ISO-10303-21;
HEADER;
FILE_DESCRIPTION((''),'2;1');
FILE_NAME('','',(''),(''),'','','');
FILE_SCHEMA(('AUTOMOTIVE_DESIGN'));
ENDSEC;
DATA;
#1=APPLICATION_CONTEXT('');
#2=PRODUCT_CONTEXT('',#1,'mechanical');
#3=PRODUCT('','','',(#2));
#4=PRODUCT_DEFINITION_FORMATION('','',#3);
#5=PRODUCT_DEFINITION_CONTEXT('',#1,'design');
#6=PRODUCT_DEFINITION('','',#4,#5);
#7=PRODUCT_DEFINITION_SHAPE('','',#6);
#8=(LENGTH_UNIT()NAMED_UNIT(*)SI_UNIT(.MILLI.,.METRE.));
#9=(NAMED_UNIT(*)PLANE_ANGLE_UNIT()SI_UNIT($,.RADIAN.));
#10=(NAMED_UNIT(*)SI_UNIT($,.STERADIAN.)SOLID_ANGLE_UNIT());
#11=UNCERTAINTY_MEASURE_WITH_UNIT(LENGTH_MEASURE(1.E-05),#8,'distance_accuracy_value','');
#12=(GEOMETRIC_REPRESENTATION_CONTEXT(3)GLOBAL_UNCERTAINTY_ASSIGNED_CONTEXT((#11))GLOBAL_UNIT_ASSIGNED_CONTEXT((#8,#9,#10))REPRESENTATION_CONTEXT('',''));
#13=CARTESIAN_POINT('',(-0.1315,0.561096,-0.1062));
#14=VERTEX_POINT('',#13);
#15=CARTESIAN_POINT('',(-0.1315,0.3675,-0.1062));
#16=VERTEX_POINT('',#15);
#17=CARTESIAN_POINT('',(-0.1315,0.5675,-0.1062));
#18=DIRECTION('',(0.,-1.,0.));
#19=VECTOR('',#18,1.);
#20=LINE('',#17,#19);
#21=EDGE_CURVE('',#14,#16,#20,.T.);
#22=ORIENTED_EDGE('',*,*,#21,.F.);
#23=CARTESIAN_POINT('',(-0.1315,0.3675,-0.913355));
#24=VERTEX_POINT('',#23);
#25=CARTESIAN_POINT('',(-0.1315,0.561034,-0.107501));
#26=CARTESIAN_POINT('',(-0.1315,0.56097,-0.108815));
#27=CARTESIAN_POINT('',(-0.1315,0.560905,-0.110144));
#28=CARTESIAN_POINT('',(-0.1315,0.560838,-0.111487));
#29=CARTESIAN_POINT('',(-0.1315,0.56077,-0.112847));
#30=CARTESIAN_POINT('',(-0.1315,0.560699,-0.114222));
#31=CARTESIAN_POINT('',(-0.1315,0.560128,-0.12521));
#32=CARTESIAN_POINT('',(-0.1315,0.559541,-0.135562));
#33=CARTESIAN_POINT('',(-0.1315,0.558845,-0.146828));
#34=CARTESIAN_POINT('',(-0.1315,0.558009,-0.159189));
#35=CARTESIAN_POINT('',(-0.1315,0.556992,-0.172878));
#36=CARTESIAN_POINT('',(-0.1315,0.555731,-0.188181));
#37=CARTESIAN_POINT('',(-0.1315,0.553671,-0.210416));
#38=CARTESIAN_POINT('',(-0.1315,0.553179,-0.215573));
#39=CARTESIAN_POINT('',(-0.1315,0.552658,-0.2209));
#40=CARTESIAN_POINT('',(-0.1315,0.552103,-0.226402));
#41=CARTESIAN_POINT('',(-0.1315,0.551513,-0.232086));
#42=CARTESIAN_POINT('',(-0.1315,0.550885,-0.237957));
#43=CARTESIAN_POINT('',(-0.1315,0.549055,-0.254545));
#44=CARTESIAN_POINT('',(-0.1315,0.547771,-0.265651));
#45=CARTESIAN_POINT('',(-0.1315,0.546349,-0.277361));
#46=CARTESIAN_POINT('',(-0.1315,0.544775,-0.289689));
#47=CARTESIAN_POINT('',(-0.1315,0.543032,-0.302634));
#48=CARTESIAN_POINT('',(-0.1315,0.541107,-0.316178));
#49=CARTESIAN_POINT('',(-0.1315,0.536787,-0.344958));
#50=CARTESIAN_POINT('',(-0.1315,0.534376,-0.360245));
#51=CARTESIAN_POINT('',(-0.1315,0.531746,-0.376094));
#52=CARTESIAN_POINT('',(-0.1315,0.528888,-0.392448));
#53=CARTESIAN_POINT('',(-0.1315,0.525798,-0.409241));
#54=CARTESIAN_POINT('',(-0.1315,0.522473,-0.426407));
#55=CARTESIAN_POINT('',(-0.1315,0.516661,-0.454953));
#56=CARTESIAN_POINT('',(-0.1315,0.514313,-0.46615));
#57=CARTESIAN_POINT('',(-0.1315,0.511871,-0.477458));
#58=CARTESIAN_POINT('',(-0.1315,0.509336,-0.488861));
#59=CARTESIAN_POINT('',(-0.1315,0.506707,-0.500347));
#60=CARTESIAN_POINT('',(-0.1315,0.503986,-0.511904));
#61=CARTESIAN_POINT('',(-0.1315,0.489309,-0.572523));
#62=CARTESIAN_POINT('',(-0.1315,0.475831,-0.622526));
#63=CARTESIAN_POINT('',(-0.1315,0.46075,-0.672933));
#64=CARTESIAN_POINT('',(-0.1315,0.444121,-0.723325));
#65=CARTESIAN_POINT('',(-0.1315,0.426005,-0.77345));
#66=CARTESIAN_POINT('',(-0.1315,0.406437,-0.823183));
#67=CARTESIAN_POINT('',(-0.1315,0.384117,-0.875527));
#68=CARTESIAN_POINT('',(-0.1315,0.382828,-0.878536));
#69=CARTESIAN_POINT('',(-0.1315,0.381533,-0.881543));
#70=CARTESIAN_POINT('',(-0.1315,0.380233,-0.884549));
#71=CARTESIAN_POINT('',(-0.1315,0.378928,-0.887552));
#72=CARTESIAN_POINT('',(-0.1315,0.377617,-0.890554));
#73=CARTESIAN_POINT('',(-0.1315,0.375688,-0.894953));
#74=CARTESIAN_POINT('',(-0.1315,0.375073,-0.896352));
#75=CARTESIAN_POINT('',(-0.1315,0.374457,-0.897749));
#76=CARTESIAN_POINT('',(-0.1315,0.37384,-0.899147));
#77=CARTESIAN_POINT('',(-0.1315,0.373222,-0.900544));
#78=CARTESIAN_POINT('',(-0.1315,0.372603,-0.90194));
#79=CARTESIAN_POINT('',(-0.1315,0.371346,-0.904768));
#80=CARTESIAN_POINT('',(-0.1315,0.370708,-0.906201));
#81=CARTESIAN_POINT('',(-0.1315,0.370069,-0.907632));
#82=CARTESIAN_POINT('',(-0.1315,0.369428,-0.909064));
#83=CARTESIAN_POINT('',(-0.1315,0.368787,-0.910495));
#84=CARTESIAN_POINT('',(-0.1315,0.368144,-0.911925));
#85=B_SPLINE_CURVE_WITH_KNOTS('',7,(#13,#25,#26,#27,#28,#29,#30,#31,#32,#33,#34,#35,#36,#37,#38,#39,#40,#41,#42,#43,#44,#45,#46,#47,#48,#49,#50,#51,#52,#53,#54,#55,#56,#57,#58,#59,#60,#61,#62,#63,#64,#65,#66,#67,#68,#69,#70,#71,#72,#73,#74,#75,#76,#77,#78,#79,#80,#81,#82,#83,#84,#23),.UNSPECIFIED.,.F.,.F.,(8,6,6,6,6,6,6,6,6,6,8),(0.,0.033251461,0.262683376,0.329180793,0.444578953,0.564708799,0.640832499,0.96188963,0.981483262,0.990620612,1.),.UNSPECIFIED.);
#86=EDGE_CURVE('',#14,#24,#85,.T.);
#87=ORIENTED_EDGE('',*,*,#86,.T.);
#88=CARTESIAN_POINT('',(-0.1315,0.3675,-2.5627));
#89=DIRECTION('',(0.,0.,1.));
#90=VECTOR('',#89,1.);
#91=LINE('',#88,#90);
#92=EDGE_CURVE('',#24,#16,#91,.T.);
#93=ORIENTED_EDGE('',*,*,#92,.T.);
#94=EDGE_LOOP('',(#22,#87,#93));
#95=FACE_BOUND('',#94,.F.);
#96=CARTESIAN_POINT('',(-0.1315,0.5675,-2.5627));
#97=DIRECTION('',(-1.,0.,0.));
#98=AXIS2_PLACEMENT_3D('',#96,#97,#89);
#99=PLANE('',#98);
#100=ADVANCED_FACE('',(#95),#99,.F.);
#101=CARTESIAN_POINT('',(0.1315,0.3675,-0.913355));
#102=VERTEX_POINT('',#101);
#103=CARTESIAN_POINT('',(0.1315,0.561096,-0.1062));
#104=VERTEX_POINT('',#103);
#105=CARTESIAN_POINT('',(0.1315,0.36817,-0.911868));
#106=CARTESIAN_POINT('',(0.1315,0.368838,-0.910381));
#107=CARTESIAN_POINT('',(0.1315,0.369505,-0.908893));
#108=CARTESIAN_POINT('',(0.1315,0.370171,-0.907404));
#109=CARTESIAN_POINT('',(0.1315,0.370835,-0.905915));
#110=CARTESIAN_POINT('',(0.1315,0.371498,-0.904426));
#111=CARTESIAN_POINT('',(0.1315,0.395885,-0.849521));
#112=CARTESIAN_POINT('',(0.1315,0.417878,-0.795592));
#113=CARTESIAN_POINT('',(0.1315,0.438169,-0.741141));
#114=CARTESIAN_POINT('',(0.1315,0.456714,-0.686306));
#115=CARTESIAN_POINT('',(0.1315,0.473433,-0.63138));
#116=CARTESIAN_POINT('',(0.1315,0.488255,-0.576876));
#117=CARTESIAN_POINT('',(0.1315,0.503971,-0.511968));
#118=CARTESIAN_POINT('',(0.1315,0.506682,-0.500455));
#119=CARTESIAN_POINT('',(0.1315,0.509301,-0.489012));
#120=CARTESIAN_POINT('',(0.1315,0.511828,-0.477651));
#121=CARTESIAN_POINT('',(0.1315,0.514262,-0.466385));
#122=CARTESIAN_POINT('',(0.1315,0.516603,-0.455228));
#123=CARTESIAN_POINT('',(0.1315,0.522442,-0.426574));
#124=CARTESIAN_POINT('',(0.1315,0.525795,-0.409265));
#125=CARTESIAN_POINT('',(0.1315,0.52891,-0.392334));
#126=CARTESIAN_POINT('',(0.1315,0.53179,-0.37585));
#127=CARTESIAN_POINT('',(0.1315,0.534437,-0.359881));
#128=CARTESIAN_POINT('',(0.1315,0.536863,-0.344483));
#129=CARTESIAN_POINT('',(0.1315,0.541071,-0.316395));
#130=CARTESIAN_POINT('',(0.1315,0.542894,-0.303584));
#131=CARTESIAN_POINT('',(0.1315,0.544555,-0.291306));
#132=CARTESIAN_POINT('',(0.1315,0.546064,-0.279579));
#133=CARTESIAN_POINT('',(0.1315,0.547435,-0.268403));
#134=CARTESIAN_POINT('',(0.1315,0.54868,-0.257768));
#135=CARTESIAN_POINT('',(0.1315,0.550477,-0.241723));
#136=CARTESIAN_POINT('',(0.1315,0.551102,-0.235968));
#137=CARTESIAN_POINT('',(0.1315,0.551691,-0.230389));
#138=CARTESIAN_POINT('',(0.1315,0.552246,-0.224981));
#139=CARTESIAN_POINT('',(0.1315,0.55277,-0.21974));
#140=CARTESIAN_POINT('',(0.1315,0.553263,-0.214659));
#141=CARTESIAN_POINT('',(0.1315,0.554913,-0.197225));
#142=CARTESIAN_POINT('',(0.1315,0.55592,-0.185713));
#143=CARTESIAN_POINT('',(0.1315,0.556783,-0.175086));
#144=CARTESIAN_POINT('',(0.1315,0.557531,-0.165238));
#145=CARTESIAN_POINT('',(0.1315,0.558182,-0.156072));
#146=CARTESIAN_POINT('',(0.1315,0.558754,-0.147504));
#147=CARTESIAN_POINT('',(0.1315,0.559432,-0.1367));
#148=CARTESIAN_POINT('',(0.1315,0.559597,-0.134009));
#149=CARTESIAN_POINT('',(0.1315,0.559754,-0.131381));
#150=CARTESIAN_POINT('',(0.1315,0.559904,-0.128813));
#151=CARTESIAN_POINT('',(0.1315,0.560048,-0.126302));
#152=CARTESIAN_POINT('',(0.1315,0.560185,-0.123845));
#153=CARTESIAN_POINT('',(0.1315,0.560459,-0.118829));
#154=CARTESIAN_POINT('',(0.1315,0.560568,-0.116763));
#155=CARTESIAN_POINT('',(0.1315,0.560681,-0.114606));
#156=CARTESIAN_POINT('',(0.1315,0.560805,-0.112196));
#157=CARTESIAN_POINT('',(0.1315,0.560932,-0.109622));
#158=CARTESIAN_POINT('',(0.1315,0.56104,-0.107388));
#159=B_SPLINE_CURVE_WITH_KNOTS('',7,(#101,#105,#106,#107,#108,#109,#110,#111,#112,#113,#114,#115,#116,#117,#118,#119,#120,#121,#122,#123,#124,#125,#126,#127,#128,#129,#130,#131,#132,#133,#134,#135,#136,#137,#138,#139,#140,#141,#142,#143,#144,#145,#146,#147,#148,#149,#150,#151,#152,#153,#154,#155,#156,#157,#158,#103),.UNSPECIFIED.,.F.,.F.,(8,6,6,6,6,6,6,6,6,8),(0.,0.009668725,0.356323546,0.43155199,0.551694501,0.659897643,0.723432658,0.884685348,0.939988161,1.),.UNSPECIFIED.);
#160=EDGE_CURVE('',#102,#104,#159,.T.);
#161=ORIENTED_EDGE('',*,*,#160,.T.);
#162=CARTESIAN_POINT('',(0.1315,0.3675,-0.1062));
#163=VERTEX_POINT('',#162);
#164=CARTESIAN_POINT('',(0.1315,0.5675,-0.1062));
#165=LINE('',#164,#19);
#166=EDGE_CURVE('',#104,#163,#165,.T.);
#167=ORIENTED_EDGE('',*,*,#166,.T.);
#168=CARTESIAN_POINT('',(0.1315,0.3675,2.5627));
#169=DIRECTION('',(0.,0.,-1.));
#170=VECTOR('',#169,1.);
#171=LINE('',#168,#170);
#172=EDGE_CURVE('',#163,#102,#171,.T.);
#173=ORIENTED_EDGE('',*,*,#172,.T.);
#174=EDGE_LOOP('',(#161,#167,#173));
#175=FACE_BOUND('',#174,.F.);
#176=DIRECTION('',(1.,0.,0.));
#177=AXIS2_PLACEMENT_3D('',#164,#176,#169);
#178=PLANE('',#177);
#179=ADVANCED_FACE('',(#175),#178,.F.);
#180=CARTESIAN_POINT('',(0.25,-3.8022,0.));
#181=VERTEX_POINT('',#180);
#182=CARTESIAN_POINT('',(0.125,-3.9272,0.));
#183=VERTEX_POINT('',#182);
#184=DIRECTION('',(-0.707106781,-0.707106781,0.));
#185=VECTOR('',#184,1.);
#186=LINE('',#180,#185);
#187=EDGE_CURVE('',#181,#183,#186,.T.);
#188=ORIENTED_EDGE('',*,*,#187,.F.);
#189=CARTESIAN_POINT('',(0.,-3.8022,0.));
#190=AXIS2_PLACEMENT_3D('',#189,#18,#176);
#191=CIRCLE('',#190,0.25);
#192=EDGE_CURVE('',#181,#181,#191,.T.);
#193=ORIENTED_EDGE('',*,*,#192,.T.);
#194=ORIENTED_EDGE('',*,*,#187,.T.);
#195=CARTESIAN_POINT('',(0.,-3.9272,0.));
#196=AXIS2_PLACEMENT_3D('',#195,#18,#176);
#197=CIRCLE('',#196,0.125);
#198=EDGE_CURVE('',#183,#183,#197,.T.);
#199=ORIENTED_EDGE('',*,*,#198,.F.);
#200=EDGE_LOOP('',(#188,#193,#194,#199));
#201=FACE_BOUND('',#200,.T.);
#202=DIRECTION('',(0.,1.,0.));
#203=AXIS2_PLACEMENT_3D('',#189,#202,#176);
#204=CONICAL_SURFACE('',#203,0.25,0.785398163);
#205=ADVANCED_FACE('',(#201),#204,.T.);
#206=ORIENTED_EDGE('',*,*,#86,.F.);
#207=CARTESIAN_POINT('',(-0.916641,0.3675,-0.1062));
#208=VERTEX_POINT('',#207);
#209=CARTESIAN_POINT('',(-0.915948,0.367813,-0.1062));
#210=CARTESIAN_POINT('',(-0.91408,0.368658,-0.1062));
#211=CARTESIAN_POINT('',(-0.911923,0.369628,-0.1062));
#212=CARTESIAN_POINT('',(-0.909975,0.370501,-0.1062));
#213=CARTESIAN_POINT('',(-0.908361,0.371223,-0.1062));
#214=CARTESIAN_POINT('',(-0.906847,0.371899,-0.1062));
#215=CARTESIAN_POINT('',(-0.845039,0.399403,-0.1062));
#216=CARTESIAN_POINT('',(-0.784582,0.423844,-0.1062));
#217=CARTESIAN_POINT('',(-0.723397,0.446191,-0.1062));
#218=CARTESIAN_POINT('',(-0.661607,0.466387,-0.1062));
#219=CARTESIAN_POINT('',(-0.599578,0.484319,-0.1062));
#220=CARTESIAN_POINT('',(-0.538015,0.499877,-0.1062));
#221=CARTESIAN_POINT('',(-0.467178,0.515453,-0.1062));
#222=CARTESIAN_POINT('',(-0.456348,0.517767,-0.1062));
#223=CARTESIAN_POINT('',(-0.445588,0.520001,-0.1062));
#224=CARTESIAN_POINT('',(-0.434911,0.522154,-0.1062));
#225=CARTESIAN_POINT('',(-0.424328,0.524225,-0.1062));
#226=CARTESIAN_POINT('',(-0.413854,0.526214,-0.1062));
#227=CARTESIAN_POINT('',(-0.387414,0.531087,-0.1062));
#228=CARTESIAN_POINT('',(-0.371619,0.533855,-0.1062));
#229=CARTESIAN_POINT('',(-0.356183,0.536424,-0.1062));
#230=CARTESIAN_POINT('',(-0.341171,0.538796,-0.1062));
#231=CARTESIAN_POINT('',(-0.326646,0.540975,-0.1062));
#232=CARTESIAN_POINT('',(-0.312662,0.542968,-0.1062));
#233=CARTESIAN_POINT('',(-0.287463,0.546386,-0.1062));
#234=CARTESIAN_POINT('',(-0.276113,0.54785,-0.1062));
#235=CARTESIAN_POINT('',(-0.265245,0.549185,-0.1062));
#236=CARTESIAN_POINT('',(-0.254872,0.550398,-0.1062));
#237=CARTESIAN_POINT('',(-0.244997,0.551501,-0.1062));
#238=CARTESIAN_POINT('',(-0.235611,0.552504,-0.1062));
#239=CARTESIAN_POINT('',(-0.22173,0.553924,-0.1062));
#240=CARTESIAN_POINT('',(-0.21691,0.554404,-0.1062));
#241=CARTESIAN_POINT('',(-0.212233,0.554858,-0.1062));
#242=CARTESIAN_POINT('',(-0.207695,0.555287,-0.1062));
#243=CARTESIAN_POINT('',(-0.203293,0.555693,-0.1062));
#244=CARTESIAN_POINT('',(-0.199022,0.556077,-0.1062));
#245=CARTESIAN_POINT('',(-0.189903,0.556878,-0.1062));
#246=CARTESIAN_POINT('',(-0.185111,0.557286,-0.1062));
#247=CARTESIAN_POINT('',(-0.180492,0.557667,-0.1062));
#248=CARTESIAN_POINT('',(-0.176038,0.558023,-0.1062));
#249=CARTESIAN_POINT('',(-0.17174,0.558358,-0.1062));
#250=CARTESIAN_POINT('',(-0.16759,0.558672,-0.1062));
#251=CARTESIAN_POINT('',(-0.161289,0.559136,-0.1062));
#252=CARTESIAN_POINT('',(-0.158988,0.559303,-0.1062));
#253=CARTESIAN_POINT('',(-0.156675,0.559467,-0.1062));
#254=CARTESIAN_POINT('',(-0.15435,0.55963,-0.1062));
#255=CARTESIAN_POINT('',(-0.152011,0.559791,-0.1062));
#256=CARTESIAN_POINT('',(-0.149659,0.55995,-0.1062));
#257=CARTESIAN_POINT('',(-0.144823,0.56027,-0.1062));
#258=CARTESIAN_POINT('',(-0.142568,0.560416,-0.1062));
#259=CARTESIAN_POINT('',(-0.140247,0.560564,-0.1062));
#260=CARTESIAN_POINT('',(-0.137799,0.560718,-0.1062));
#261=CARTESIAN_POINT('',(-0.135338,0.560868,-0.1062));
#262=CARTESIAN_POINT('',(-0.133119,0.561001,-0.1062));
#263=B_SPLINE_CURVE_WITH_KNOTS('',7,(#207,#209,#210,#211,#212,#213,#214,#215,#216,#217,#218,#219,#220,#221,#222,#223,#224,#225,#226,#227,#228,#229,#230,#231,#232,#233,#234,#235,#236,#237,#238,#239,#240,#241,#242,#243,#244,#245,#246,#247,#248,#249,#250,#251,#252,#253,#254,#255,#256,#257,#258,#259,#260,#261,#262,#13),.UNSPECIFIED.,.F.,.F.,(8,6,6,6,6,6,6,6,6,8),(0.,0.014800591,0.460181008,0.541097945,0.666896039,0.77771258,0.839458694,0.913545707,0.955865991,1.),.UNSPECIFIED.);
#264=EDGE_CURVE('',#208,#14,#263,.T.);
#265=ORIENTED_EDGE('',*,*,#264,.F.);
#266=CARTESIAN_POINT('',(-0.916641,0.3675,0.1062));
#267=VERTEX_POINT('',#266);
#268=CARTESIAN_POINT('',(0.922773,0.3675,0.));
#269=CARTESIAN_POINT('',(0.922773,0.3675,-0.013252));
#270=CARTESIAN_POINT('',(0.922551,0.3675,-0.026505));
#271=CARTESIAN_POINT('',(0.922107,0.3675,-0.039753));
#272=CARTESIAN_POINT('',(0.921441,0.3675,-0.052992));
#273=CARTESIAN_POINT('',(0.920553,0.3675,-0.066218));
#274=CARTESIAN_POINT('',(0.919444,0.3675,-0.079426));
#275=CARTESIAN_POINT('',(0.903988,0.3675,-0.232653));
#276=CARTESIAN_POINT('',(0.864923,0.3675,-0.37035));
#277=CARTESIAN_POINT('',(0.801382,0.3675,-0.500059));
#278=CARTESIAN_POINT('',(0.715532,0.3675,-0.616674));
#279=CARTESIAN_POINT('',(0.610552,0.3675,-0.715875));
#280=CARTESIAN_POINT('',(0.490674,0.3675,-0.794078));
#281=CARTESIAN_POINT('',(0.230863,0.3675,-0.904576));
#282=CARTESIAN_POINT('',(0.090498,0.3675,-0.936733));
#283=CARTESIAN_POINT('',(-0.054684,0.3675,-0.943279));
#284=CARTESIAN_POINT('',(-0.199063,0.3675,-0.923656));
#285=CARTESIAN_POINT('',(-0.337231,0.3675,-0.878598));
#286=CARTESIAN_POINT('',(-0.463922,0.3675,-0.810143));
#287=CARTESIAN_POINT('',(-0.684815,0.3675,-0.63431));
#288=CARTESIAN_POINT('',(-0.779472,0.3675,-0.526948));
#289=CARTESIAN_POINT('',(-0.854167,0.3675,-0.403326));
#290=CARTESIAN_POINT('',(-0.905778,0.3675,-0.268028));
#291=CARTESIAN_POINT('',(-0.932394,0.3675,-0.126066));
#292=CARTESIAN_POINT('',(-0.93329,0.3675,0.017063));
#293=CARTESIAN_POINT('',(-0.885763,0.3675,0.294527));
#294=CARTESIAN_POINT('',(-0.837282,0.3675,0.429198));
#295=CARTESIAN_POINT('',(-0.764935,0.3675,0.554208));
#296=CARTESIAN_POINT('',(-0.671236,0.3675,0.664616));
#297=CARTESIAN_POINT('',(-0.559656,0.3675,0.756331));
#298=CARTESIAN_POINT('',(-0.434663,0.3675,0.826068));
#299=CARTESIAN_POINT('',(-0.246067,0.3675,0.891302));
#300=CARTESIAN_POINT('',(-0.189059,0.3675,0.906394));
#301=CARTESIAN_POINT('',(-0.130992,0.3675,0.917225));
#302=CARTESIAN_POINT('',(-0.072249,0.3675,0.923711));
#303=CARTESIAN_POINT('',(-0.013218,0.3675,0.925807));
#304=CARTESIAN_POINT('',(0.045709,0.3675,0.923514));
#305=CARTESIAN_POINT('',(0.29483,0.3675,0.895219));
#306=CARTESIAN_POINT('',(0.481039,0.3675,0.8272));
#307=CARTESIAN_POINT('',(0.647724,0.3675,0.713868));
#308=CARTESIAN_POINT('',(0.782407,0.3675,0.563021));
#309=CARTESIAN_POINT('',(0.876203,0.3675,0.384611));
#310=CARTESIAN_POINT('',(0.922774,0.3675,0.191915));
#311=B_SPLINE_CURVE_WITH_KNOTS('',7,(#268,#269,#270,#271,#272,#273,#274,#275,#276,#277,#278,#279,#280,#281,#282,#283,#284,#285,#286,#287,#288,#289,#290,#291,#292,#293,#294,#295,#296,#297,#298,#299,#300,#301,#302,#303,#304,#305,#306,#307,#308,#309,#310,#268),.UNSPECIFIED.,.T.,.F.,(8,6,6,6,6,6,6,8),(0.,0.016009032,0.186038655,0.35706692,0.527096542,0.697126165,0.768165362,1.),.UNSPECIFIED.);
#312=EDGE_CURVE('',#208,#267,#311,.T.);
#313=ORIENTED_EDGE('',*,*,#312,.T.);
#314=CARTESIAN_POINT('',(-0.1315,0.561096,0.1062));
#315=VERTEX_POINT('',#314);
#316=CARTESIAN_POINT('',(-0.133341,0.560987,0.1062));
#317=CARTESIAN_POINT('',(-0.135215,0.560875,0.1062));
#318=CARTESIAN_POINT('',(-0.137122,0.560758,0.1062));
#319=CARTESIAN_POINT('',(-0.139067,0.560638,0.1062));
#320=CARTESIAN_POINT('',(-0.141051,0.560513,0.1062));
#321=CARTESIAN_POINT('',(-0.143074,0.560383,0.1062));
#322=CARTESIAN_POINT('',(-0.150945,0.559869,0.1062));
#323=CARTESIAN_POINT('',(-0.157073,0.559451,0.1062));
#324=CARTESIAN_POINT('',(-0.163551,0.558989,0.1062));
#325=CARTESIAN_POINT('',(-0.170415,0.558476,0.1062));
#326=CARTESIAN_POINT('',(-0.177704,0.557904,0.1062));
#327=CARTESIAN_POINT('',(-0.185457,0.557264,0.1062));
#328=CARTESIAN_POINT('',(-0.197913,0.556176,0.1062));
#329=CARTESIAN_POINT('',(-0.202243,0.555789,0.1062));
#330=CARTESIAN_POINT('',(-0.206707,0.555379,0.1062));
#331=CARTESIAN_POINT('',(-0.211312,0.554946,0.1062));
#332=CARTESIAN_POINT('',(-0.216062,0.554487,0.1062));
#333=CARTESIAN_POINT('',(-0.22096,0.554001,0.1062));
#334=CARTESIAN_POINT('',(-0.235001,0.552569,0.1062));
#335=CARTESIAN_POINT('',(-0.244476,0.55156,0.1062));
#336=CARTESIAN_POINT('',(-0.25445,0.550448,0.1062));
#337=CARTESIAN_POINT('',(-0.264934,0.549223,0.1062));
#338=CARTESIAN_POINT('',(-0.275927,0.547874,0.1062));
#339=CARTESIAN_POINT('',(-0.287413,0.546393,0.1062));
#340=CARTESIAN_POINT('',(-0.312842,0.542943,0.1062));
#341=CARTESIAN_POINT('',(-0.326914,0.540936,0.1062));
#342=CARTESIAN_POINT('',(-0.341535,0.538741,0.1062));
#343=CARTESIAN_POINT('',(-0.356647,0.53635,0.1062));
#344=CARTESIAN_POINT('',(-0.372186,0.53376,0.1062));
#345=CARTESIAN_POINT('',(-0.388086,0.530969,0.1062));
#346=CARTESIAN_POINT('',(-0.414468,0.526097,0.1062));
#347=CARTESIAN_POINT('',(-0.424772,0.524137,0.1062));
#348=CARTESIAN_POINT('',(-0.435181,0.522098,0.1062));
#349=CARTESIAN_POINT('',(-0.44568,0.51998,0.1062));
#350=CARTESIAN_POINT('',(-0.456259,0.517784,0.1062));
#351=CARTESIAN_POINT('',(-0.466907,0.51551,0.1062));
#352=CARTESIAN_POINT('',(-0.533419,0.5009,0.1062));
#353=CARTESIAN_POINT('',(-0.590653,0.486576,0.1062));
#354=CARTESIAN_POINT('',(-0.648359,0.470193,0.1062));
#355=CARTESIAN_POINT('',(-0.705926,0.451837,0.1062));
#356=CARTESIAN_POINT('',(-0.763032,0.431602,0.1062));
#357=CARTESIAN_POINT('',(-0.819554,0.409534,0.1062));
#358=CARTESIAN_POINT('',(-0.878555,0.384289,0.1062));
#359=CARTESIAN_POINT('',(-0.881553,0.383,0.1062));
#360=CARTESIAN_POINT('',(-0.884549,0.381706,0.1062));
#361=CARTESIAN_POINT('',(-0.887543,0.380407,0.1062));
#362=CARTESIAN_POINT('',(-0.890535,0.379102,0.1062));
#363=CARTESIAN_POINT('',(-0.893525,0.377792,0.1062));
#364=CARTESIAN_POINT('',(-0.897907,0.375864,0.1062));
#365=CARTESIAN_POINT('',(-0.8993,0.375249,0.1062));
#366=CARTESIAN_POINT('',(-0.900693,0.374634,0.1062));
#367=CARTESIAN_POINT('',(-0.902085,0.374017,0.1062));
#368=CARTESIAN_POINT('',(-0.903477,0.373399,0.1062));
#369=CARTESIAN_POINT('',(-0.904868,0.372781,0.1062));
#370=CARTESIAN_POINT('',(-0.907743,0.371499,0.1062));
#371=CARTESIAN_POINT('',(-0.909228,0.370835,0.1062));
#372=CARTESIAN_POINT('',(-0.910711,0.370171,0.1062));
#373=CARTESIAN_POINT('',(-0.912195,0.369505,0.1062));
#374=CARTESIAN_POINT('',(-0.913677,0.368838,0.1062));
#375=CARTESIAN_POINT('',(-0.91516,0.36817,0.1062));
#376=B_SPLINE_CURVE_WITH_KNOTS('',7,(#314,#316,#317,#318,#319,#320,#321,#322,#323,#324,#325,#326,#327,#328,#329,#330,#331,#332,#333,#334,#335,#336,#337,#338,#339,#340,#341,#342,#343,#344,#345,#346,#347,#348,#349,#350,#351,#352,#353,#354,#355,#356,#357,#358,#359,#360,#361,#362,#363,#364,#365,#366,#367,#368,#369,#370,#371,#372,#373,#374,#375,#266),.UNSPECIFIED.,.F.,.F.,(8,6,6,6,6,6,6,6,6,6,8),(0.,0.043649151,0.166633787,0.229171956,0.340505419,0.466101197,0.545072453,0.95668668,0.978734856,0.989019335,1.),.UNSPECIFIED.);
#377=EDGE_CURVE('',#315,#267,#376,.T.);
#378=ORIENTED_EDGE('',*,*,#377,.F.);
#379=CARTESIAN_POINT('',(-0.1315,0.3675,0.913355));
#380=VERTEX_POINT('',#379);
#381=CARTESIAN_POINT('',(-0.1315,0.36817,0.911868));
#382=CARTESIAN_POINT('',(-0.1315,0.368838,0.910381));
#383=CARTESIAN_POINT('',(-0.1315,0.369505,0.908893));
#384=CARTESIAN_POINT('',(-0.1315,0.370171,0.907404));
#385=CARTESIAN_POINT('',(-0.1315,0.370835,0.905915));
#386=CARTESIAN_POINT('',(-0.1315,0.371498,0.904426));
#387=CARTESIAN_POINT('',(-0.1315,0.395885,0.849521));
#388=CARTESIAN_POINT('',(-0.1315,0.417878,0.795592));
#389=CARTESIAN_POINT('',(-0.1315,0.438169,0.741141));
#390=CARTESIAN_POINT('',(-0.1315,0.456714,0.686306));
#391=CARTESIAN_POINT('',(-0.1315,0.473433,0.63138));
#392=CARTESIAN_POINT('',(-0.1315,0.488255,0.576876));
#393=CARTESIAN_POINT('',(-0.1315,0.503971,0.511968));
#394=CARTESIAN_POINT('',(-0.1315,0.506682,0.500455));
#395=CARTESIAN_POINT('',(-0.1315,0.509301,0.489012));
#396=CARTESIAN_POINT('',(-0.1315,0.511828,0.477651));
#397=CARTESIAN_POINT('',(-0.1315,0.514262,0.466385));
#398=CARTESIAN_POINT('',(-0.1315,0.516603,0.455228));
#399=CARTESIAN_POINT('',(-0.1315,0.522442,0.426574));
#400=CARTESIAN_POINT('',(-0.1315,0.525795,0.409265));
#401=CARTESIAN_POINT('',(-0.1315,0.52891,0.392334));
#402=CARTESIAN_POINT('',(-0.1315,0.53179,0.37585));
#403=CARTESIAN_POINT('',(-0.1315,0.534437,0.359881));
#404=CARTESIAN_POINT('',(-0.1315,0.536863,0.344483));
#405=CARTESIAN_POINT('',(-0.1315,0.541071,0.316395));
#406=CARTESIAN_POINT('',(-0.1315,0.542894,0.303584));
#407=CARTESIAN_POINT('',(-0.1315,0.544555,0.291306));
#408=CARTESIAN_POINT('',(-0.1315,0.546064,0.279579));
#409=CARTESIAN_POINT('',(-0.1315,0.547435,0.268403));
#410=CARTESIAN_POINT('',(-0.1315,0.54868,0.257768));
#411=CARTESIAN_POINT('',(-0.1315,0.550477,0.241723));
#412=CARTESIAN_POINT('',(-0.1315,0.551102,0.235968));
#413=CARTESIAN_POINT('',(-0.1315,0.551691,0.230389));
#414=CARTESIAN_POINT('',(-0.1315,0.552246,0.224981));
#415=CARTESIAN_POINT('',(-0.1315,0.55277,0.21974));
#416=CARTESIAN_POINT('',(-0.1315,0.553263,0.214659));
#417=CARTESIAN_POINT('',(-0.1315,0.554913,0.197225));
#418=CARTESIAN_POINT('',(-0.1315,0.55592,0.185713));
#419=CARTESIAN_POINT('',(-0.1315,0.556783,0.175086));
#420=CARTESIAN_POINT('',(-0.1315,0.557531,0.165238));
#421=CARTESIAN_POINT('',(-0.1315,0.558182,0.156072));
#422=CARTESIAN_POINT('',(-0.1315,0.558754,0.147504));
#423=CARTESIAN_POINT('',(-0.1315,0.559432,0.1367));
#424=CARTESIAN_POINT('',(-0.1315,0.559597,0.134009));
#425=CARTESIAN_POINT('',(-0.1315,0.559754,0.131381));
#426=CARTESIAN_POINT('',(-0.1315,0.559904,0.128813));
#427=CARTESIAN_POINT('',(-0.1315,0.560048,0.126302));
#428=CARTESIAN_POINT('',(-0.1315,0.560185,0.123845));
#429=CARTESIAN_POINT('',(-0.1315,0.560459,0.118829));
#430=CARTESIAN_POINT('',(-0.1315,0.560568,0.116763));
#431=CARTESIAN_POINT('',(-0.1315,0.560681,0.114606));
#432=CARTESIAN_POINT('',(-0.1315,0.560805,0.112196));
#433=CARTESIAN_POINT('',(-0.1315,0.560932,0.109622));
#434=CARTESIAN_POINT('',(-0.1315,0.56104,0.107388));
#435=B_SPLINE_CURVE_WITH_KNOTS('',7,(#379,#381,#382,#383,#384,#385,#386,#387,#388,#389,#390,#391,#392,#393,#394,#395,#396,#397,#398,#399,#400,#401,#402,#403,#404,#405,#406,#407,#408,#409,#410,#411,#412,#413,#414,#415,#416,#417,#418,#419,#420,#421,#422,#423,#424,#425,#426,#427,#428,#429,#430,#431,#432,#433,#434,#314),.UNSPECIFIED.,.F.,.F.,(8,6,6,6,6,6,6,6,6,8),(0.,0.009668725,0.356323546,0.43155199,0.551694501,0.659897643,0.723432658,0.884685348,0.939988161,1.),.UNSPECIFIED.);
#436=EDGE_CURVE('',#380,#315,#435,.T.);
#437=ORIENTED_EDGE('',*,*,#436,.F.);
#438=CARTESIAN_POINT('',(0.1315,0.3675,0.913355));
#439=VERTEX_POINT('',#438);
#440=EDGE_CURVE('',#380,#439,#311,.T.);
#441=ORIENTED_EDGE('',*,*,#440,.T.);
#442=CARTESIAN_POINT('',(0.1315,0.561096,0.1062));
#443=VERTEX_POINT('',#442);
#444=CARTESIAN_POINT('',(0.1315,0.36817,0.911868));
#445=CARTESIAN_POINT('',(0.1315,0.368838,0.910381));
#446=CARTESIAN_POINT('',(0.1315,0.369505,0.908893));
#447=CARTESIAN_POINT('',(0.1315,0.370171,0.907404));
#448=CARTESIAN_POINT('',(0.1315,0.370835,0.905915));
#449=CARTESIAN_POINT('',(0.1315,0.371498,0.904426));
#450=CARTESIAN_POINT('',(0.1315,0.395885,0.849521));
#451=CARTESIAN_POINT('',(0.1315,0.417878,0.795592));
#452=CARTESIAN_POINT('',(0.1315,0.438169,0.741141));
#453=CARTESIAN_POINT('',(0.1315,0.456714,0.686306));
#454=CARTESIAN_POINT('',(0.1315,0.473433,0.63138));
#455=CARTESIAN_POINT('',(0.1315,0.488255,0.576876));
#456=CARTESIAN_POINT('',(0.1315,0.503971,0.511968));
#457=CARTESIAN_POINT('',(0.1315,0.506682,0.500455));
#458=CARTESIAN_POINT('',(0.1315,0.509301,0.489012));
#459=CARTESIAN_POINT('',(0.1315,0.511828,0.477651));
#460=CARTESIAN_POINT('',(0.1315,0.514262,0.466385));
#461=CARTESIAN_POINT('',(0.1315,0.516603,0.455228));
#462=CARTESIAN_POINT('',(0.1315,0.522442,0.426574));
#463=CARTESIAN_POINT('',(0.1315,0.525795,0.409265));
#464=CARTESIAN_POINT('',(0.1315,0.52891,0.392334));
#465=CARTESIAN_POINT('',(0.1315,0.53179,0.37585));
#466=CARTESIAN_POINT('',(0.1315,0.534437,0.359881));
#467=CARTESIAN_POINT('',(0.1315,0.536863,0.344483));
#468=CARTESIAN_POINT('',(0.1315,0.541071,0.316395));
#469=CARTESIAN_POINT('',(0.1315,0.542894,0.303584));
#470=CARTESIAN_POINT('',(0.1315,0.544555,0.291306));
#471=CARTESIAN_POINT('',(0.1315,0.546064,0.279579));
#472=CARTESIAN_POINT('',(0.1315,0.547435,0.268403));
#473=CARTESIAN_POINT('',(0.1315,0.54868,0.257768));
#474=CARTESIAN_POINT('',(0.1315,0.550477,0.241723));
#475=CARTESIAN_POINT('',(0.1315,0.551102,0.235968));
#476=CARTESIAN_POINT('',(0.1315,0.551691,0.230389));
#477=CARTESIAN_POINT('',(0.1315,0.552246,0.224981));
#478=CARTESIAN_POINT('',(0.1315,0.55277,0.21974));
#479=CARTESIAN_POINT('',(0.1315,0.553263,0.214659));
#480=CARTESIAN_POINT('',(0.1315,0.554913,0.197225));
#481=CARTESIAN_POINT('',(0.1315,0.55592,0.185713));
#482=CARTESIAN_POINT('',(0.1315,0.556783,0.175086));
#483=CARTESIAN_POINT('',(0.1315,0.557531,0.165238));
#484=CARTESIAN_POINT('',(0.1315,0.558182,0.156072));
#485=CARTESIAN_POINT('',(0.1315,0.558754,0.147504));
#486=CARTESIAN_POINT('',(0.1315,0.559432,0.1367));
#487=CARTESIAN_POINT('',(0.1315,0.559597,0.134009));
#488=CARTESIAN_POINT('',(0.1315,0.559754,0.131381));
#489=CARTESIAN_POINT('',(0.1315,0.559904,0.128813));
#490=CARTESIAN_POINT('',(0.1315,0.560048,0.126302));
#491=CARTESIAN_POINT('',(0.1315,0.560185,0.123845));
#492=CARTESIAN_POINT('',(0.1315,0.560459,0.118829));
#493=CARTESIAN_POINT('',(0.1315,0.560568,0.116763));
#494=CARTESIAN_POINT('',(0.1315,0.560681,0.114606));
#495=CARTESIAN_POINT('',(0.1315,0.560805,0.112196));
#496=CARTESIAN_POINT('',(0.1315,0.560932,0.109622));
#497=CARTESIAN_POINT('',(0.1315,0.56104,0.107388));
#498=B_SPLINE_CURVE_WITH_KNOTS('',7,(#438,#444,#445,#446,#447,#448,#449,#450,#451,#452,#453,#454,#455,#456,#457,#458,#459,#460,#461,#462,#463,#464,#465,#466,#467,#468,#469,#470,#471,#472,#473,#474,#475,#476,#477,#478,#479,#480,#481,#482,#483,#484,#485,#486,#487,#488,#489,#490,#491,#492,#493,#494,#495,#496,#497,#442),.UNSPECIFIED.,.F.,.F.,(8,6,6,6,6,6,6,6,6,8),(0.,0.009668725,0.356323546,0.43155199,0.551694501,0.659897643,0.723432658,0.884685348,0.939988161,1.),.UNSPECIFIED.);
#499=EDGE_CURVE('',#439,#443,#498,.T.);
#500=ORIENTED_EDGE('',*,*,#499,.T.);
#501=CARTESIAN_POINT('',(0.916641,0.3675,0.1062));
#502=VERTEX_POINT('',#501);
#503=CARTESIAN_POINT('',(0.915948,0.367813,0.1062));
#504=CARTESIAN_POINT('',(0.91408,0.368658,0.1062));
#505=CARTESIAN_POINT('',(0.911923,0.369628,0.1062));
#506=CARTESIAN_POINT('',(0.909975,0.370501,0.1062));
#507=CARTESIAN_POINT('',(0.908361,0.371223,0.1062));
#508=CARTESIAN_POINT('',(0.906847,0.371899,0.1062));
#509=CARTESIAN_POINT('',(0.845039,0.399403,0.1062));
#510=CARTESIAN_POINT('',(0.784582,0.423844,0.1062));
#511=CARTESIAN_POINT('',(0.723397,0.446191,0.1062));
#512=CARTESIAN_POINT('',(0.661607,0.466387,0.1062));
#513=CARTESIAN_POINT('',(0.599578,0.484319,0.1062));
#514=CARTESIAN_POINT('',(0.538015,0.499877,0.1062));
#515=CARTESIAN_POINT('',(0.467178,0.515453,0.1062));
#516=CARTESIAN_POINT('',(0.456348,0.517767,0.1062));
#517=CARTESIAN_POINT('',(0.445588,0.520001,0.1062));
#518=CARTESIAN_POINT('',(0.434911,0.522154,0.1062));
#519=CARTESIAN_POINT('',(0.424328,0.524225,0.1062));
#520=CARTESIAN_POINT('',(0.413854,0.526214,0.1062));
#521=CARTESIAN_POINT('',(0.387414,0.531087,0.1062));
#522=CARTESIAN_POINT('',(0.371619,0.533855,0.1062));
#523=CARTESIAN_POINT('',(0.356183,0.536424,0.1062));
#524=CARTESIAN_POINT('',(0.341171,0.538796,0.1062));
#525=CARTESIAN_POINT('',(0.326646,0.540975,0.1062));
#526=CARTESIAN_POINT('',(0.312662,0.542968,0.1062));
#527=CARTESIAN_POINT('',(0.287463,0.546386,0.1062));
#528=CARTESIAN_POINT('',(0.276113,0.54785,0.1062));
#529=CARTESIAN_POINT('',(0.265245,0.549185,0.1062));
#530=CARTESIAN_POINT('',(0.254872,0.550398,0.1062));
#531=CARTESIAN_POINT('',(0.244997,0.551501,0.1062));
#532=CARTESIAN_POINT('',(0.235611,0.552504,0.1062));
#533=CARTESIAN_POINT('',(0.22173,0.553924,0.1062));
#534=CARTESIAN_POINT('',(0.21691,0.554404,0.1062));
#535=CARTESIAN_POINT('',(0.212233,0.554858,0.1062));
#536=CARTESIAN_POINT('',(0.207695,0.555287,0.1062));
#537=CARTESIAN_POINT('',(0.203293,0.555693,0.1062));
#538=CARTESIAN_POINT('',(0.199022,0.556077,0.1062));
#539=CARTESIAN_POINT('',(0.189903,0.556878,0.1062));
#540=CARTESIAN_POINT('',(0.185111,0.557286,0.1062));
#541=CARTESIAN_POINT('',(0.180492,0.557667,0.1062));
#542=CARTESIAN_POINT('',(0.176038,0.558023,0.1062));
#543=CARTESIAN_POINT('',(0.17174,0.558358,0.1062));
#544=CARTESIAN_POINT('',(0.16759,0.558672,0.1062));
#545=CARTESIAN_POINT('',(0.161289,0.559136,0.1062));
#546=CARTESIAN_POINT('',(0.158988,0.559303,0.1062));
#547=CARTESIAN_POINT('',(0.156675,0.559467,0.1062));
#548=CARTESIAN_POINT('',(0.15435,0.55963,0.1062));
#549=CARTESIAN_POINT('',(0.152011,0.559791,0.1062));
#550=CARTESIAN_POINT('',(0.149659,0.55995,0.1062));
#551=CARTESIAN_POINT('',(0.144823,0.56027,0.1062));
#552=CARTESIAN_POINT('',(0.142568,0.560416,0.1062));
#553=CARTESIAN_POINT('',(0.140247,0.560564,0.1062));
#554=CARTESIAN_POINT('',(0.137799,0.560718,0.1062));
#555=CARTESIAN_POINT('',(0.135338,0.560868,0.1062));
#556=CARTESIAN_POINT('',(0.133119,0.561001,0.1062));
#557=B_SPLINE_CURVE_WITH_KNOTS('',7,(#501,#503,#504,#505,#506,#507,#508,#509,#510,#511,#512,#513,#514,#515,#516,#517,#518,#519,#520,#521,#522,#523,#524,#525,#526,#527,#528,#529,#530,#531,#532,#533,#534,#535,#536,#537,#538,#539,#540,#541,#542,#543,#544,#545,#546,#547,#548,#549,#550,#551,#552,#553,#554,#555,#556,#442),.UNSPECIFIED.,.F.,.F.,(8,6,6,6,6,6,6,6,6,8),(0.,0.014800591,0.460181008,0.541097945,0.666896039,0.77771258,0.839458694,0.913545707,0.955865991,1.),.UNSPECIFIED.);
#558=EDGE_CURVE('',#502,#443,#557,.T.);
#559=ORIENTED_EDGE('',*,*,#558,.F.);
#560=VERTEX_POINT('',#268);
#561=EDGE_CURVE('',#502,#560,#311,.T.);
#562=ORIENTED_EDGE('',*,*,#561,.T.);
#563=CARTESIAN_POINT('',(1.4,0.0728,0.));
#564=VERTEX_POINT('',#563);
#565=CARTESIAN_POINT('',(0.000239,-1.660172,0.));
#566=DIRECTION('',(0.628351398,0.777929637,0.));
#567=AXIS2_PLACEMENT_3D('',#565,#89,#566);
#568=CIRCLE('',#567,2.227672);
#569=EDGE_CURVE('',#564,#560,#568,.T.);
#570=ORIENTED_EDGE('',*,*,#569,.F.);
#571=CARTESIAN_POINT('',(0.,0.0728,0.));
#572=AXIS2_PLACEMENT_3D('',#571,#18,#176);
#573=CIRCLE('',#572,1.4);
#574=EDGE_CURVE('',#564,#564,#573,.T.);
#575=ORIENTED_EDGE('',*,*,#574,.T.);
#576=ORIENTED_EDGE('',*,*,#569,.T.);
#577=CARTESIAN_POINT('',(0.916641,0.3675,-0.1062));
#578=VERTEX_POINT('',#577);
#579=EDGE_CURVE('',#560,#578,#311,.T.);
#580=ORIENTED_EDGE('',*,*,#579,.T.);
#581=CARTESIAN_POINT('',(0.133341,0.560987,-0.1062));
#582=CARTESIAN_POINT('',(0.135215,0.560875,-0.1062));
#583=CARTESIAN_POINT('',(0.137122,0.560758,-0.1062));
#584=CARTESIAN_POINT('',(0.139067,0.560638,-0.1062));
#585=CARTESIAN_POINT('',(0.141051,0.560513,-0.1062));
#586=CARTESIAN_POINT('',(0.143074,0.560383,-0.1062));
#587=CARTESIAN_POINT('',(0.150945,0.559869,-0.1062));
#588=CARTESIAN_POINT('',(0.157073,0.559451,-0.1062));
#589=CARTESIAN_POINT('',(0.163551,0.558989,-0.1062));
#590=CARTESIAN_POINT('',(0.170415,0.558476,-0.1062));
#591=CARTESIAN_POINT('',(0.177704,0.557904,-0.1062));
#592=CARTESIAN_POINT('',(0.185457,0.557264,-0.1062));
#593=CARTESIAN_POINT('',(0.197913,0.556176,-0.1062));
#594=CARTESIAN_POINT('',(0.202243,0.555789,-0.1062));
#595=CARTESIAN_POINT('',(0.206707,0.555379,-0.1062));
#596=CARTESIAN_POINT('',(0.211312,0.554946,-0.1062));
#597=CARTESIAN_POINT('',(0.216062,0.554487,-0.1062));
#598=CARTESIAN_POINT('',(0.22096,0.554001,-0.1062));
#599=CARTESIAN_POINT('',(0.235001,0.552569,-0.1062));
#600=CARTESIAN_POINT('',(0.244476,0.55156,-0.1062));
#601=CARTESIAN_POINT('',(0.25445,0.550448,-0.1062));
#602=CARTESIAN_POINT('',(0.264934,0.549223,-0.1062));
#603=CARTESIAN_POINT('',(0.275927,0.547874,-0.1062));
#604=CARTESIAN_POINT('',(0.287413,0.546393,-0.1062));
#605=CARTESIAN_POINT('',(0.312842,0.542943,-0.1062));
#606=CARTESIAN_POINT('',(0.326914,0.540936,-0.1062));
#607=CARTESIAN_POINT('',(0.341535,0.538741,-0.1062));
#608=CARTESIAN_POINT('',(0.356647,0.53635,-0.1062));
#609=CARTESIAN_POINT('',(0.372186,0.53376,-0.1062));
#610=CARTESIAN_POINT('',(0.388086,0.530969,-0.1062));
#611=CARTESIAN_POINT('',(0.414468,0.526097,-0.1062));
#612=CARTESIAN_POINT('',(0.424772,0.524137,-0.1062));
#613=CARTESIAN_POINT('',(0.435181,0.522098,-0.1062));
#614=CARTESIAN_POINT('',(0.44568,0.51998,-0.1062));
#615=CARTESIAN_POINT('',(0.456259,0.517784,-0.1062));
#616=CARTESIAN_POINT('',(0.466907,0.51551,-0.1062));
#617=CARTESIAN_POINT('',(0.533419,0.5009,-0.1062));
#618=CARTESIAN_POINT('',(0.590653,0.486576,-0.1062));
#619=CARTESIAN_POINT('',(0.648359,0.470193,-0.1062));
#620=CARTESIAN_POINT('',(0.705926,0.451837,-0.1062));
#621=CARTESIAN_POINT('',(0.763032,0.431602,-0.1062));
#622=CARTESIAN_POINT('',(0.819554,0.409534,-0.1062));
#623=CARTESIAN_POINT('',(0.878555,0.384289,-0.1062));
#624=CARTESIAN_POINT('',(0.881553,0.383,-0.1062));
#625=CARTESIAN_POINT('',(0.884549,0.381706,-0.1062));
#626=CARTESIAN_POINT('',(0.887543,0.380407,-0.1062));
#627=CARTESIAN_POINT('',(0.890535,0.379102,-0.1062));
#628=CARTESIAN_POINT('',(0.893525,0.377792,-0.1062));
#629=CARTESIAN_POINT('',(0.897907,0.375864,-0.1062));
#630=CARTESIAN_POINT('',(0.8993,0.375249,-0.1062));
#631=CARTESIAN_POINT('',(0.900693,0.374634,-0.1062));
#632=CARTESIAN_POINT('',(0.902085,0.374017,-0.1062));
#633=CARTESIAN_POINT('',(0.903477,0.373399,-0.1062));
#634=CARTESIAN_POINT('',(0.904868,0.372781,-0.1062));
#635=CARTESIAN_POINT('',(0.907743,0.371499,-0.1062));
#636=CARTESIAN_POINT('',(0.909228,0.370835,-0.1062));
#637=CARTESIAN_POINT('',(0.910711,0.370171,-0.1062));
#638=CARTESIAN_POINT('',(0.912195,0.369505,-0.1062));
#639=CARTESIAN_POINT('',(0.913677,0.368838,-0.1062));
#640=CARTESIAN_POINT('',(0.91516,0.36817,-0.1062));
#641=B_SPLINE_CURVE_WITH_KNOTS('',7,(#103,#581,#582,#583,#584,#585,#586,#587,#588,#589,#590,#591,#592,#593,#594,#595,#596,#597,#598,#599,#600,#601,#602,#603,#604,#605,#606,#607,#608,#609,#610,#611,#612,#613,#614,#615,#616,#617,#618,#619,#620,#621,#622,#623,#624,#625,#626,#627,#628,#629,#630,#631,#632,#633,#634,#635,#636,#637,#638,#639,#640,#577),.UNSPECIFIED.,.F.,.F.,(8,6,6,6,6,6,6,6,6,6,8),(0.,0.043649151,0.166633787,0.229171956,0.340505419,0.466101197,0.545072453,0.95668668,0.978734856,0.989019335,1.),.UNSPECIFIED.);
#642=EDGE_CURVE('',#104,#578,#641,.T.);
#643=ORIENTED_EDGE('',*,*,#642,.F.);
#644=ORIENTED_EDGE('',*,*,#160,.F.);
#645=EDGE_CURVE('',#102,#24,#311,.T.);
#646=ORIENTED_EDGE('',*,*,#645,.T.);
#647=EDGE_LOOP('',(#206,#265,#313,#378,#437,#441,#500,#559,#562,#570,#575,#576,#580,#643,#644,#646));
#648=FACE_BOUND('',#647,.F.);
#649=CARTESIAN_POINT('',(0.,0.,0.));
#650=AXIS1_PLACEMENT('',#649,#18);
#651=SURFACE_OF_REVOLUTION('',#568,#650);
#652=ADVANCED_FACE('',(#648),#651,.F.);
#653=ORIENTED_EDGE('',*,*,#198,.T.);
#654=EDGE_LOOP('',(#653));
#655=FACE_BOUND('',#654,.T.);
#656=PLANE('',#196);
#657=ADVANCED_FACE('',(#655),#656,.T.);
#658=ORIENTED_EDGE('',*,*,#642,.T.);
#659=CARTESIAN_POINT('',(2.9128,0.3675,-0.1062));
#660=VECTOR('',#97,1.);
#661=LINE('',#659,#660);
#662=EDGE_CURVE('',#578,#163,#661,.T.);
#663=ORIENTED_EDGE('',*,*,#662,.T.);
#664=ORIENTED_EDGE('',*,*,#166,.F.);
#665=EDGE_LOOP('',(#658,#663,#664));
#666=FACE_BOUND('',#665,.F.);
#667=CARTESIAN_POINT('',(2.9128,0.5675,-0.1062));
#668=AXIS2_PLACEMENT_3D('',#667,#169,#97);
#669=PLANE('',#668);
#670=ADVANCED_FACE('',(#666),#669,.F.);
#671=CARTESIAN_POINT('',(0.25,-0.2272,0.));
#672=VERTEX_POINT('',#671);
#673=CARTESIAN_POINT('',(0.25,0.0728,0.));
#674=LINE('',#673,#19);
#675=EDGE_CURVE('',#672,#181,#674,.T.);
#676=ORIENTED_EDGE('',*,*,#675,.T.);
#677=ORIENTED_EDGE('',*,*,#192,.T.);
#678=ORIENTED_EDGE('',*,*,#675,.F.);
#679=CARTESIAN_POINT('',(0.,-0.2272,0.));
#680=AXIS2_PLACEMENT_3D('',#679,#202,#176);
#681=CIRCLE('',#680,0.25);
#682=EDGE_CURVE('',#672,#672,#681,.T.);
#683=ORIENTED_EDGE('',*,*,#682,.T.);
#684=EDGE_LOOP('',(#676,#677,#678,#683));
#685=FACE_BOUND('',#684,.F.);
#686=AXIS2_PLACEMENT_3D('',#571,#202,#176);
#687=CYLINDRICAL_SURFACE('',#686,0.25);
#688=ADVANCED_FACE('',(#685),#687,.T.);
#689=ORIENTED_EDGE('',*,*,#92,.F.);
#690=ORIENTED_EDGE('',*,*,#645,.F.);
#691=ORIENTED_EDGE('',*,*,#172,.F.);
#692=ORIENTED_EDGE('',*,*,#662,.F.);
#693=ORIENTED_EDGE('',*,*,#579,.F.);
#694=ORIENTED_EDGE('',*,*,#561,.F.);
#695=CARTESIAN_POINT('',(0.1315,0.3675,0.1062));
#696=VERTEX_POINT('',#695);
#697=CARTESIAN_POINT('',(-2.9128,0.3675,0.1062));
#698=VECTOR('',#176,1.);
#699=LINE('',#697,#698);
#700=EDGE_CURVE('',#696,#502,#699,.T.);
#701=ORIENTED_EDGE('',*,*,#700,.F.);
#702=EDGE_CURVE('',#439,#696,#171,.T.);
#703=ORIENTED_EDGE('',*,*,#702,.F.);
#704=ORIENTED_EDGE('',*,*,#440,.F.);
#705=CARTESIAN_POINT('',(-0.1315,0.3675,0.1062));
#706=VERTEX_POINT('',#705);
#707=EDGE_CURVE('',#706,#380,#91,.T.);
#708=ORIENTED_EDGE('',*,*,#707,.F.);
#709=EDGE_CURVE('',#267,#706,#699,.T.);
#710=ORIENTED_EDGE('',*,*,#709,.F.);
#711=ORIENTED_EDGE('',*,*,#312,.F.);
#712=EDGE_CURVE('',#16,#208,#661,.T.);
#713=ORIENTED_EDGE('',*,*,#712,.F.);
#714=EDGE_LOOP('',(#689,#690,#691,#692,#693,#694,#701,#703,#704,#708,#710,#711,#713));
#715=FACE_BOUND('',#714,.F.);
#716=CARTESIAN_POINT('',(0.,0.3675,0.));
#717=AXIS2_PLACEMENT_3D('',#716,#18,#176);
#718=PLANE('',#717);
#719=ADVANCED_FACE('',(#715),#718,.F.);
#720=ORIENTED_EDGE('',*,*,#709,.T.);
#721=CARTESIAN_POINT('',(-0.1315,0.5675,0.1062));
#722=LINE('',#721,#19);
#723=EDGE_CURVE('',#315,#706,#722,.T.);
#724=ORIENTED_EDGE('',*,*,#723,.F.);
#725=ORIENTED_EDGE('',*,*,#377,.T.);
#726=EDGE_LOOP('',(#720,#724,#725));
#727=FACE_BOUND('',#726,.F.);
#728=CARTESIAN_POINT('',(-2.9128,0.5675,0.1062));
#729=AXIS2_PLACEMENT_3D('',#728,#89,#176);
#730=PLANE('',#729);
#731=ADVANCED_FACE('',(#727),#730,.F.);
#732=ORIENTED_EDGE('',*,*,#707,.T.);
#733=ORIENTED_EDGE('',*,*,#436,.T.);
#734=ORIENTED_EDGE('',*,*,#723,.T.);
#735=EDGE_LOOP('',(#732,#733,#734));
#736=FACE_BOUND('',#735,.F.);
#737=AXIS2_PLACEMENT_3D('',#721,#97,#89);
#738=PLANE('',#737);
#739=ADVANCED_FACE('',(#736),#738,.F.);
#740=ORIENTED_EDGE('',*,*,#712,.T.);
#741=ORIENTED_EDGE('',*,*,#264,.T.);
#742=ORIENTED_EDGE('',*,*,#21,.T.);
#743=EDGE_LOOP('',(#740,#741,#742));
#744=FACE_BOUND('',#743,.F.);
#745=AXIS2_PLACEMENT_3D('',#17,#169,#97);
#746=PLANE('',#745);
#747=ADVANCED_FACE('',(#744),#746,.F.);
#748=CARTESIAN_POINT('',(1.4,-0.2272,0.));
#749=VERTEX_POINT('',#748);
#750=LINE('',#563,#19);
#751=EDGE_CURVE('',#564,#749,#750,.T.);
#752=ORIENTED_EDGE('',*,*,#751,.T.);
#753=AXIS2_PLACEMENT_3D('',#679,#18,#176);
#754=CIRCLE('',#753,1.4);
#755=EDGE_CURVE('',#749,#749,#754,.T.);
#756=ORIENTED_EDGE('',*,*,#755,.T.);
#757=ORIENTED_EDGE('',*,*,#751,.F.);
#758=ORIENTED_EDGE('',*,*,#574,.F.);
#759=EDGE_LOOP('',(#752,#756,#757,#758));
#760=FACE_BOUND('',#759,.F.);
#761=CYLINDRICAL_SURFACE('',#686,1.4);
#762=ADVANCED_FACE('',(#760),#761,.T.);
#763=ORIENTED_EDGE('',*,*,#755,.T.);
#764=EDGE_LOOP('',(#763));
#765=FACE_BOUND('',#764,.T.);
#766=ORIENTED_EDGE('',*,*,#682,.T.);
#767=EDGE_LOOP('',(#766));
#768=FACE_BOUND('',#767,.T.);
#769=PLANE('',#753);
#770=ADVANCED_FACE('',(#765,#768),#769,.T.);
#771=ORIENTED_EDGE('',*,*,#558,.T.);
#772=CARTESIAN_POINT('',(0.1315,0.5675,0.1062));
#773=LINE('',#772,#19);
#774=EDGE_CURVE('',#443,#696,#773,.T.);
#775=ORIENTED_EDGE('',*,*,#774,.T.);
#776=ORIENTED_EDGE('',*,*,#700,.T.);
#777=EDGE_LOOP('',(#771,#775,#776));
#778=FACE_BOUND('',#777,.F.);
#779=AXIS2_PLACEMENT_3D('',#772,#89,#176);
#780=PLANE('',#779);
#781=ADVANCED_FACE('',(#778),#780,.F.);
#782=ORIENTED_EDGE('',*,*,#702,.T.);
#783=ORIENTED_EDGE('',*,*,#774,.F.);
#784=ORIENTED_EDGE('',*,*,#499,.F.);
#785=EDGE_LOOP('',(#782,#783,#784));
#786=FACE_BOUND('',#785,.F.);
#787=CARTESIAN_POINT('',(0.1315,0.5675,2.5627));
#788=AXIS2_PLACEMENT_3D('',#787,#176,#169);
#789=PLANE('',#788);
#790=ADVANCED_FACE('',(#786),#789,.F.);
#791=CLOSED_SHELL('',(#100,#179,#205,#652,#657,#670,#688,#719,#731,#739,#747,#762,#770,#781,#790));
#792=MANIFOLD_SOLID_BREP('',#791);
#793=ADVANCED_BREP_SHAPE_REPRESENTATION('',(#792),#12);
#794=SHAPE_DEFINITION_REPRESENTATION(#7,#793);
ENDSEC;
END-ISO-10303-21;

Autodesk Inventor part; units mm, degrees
ref_plane "YZ Plane" through (0, 0, 0) normal (1, 0, 0) x (0, 1, 0)
ref_plane "XZ Plane" through (0, 0, 0) normal (0, 1, 0) x (-1, 0, 0)
sketch "草圖1" plane through (0, 0, 0) normal (0, 0, 1) x (1, 0, 0)
  arc A0 (1.4, 0.0728) -> (0, 0.5675) centre (0, -1.6606) ccw
  line L0 (0, 1.1572) -> (0, -2.1303) projected
  line L1 (0, 0.0728) -> (0, 0.5675)
  line L2 (0, 0.0728) -> (1.4, 0.0728)
  dimension "d11" = 1.4
revolve "迴轉1" add sketch "草圖1" angle 360 about axis through (0, 0, 0) along (0, -1, 0)
ref_plane "工作平面1" through (0, 0.5675, 0) normal (0, -1, 0) x (1, 0, 0)
sketch "草圖2" plane through (0, 0.5675, 0) normal (0, -1, 0) x (1, 0, 0)
  line L0 (-2.9128, 0.1062) -> (2.9128, 0.1062)
  line L1 (2.9128, 0.1062) -> (2.9128, -0.1062)
  line L2 (2.9128, -0.1062) -> (-2.9128, -0.1062)
  line L3 (-2.9128, -0.1062) -> (-2.9128, 0.1062)
  line L4 (-2.9128, 0.1062) -> (2.9128, -0.1062) construction
  line L5 (2.9128, 0.1062) -> (-2.9128, -0.1062) construction
  line L6 (-0.1315, 2.5627) -> (0.1315, 2.5627)
  line L7 (0.1315, 2.5627) -> (0.1315, -2.5627)
  line L8 (0.1315, -2.5627) -> (-0.1315, -2.5627)
  line L9 (-0.1315, -2.5627) -> (-0.1315, 2.5627)
  line L10 (-0.1315, 2.5627) -> (0.1315, -2.5627) construction
  line L11 (0.1315, 2.5627) -> (-0.1315, -2.5627) construction
  point P0 (0, 0)
extrude "擠出1" cut sketch "草圖2" along normal blind 0.2
sketch "草圖3" plane through (0, 0.0728, 0) normal (0, -1, 0) x (1, 0, 0)
  circle A0 centre (0, 0) radius 0.25
  dimension "d10" = 0.5
extrude "擠出2" add sketch "草圖3" along normal blind 4
chamfer "倒角1" distance 0.125 angle 45 1 edges at (-0.25, -3.9272, 0)
sketch "草圖4" plane through (0, 0.0728, 0) normal (0, -1, 0) x (1, 0, 0)
  circle A0 centre (0, 0) radius 0.25 projected
  circle A1 centre (0, 0) radius 1.4 projected
extrude "擠出3" add sketch "草圖4" along normal blind 0.3 contours A0 | A1
thread "螺紋2" size "M0.5x0.125" class "6g" standard "ANSI Metric M Profile" full length
